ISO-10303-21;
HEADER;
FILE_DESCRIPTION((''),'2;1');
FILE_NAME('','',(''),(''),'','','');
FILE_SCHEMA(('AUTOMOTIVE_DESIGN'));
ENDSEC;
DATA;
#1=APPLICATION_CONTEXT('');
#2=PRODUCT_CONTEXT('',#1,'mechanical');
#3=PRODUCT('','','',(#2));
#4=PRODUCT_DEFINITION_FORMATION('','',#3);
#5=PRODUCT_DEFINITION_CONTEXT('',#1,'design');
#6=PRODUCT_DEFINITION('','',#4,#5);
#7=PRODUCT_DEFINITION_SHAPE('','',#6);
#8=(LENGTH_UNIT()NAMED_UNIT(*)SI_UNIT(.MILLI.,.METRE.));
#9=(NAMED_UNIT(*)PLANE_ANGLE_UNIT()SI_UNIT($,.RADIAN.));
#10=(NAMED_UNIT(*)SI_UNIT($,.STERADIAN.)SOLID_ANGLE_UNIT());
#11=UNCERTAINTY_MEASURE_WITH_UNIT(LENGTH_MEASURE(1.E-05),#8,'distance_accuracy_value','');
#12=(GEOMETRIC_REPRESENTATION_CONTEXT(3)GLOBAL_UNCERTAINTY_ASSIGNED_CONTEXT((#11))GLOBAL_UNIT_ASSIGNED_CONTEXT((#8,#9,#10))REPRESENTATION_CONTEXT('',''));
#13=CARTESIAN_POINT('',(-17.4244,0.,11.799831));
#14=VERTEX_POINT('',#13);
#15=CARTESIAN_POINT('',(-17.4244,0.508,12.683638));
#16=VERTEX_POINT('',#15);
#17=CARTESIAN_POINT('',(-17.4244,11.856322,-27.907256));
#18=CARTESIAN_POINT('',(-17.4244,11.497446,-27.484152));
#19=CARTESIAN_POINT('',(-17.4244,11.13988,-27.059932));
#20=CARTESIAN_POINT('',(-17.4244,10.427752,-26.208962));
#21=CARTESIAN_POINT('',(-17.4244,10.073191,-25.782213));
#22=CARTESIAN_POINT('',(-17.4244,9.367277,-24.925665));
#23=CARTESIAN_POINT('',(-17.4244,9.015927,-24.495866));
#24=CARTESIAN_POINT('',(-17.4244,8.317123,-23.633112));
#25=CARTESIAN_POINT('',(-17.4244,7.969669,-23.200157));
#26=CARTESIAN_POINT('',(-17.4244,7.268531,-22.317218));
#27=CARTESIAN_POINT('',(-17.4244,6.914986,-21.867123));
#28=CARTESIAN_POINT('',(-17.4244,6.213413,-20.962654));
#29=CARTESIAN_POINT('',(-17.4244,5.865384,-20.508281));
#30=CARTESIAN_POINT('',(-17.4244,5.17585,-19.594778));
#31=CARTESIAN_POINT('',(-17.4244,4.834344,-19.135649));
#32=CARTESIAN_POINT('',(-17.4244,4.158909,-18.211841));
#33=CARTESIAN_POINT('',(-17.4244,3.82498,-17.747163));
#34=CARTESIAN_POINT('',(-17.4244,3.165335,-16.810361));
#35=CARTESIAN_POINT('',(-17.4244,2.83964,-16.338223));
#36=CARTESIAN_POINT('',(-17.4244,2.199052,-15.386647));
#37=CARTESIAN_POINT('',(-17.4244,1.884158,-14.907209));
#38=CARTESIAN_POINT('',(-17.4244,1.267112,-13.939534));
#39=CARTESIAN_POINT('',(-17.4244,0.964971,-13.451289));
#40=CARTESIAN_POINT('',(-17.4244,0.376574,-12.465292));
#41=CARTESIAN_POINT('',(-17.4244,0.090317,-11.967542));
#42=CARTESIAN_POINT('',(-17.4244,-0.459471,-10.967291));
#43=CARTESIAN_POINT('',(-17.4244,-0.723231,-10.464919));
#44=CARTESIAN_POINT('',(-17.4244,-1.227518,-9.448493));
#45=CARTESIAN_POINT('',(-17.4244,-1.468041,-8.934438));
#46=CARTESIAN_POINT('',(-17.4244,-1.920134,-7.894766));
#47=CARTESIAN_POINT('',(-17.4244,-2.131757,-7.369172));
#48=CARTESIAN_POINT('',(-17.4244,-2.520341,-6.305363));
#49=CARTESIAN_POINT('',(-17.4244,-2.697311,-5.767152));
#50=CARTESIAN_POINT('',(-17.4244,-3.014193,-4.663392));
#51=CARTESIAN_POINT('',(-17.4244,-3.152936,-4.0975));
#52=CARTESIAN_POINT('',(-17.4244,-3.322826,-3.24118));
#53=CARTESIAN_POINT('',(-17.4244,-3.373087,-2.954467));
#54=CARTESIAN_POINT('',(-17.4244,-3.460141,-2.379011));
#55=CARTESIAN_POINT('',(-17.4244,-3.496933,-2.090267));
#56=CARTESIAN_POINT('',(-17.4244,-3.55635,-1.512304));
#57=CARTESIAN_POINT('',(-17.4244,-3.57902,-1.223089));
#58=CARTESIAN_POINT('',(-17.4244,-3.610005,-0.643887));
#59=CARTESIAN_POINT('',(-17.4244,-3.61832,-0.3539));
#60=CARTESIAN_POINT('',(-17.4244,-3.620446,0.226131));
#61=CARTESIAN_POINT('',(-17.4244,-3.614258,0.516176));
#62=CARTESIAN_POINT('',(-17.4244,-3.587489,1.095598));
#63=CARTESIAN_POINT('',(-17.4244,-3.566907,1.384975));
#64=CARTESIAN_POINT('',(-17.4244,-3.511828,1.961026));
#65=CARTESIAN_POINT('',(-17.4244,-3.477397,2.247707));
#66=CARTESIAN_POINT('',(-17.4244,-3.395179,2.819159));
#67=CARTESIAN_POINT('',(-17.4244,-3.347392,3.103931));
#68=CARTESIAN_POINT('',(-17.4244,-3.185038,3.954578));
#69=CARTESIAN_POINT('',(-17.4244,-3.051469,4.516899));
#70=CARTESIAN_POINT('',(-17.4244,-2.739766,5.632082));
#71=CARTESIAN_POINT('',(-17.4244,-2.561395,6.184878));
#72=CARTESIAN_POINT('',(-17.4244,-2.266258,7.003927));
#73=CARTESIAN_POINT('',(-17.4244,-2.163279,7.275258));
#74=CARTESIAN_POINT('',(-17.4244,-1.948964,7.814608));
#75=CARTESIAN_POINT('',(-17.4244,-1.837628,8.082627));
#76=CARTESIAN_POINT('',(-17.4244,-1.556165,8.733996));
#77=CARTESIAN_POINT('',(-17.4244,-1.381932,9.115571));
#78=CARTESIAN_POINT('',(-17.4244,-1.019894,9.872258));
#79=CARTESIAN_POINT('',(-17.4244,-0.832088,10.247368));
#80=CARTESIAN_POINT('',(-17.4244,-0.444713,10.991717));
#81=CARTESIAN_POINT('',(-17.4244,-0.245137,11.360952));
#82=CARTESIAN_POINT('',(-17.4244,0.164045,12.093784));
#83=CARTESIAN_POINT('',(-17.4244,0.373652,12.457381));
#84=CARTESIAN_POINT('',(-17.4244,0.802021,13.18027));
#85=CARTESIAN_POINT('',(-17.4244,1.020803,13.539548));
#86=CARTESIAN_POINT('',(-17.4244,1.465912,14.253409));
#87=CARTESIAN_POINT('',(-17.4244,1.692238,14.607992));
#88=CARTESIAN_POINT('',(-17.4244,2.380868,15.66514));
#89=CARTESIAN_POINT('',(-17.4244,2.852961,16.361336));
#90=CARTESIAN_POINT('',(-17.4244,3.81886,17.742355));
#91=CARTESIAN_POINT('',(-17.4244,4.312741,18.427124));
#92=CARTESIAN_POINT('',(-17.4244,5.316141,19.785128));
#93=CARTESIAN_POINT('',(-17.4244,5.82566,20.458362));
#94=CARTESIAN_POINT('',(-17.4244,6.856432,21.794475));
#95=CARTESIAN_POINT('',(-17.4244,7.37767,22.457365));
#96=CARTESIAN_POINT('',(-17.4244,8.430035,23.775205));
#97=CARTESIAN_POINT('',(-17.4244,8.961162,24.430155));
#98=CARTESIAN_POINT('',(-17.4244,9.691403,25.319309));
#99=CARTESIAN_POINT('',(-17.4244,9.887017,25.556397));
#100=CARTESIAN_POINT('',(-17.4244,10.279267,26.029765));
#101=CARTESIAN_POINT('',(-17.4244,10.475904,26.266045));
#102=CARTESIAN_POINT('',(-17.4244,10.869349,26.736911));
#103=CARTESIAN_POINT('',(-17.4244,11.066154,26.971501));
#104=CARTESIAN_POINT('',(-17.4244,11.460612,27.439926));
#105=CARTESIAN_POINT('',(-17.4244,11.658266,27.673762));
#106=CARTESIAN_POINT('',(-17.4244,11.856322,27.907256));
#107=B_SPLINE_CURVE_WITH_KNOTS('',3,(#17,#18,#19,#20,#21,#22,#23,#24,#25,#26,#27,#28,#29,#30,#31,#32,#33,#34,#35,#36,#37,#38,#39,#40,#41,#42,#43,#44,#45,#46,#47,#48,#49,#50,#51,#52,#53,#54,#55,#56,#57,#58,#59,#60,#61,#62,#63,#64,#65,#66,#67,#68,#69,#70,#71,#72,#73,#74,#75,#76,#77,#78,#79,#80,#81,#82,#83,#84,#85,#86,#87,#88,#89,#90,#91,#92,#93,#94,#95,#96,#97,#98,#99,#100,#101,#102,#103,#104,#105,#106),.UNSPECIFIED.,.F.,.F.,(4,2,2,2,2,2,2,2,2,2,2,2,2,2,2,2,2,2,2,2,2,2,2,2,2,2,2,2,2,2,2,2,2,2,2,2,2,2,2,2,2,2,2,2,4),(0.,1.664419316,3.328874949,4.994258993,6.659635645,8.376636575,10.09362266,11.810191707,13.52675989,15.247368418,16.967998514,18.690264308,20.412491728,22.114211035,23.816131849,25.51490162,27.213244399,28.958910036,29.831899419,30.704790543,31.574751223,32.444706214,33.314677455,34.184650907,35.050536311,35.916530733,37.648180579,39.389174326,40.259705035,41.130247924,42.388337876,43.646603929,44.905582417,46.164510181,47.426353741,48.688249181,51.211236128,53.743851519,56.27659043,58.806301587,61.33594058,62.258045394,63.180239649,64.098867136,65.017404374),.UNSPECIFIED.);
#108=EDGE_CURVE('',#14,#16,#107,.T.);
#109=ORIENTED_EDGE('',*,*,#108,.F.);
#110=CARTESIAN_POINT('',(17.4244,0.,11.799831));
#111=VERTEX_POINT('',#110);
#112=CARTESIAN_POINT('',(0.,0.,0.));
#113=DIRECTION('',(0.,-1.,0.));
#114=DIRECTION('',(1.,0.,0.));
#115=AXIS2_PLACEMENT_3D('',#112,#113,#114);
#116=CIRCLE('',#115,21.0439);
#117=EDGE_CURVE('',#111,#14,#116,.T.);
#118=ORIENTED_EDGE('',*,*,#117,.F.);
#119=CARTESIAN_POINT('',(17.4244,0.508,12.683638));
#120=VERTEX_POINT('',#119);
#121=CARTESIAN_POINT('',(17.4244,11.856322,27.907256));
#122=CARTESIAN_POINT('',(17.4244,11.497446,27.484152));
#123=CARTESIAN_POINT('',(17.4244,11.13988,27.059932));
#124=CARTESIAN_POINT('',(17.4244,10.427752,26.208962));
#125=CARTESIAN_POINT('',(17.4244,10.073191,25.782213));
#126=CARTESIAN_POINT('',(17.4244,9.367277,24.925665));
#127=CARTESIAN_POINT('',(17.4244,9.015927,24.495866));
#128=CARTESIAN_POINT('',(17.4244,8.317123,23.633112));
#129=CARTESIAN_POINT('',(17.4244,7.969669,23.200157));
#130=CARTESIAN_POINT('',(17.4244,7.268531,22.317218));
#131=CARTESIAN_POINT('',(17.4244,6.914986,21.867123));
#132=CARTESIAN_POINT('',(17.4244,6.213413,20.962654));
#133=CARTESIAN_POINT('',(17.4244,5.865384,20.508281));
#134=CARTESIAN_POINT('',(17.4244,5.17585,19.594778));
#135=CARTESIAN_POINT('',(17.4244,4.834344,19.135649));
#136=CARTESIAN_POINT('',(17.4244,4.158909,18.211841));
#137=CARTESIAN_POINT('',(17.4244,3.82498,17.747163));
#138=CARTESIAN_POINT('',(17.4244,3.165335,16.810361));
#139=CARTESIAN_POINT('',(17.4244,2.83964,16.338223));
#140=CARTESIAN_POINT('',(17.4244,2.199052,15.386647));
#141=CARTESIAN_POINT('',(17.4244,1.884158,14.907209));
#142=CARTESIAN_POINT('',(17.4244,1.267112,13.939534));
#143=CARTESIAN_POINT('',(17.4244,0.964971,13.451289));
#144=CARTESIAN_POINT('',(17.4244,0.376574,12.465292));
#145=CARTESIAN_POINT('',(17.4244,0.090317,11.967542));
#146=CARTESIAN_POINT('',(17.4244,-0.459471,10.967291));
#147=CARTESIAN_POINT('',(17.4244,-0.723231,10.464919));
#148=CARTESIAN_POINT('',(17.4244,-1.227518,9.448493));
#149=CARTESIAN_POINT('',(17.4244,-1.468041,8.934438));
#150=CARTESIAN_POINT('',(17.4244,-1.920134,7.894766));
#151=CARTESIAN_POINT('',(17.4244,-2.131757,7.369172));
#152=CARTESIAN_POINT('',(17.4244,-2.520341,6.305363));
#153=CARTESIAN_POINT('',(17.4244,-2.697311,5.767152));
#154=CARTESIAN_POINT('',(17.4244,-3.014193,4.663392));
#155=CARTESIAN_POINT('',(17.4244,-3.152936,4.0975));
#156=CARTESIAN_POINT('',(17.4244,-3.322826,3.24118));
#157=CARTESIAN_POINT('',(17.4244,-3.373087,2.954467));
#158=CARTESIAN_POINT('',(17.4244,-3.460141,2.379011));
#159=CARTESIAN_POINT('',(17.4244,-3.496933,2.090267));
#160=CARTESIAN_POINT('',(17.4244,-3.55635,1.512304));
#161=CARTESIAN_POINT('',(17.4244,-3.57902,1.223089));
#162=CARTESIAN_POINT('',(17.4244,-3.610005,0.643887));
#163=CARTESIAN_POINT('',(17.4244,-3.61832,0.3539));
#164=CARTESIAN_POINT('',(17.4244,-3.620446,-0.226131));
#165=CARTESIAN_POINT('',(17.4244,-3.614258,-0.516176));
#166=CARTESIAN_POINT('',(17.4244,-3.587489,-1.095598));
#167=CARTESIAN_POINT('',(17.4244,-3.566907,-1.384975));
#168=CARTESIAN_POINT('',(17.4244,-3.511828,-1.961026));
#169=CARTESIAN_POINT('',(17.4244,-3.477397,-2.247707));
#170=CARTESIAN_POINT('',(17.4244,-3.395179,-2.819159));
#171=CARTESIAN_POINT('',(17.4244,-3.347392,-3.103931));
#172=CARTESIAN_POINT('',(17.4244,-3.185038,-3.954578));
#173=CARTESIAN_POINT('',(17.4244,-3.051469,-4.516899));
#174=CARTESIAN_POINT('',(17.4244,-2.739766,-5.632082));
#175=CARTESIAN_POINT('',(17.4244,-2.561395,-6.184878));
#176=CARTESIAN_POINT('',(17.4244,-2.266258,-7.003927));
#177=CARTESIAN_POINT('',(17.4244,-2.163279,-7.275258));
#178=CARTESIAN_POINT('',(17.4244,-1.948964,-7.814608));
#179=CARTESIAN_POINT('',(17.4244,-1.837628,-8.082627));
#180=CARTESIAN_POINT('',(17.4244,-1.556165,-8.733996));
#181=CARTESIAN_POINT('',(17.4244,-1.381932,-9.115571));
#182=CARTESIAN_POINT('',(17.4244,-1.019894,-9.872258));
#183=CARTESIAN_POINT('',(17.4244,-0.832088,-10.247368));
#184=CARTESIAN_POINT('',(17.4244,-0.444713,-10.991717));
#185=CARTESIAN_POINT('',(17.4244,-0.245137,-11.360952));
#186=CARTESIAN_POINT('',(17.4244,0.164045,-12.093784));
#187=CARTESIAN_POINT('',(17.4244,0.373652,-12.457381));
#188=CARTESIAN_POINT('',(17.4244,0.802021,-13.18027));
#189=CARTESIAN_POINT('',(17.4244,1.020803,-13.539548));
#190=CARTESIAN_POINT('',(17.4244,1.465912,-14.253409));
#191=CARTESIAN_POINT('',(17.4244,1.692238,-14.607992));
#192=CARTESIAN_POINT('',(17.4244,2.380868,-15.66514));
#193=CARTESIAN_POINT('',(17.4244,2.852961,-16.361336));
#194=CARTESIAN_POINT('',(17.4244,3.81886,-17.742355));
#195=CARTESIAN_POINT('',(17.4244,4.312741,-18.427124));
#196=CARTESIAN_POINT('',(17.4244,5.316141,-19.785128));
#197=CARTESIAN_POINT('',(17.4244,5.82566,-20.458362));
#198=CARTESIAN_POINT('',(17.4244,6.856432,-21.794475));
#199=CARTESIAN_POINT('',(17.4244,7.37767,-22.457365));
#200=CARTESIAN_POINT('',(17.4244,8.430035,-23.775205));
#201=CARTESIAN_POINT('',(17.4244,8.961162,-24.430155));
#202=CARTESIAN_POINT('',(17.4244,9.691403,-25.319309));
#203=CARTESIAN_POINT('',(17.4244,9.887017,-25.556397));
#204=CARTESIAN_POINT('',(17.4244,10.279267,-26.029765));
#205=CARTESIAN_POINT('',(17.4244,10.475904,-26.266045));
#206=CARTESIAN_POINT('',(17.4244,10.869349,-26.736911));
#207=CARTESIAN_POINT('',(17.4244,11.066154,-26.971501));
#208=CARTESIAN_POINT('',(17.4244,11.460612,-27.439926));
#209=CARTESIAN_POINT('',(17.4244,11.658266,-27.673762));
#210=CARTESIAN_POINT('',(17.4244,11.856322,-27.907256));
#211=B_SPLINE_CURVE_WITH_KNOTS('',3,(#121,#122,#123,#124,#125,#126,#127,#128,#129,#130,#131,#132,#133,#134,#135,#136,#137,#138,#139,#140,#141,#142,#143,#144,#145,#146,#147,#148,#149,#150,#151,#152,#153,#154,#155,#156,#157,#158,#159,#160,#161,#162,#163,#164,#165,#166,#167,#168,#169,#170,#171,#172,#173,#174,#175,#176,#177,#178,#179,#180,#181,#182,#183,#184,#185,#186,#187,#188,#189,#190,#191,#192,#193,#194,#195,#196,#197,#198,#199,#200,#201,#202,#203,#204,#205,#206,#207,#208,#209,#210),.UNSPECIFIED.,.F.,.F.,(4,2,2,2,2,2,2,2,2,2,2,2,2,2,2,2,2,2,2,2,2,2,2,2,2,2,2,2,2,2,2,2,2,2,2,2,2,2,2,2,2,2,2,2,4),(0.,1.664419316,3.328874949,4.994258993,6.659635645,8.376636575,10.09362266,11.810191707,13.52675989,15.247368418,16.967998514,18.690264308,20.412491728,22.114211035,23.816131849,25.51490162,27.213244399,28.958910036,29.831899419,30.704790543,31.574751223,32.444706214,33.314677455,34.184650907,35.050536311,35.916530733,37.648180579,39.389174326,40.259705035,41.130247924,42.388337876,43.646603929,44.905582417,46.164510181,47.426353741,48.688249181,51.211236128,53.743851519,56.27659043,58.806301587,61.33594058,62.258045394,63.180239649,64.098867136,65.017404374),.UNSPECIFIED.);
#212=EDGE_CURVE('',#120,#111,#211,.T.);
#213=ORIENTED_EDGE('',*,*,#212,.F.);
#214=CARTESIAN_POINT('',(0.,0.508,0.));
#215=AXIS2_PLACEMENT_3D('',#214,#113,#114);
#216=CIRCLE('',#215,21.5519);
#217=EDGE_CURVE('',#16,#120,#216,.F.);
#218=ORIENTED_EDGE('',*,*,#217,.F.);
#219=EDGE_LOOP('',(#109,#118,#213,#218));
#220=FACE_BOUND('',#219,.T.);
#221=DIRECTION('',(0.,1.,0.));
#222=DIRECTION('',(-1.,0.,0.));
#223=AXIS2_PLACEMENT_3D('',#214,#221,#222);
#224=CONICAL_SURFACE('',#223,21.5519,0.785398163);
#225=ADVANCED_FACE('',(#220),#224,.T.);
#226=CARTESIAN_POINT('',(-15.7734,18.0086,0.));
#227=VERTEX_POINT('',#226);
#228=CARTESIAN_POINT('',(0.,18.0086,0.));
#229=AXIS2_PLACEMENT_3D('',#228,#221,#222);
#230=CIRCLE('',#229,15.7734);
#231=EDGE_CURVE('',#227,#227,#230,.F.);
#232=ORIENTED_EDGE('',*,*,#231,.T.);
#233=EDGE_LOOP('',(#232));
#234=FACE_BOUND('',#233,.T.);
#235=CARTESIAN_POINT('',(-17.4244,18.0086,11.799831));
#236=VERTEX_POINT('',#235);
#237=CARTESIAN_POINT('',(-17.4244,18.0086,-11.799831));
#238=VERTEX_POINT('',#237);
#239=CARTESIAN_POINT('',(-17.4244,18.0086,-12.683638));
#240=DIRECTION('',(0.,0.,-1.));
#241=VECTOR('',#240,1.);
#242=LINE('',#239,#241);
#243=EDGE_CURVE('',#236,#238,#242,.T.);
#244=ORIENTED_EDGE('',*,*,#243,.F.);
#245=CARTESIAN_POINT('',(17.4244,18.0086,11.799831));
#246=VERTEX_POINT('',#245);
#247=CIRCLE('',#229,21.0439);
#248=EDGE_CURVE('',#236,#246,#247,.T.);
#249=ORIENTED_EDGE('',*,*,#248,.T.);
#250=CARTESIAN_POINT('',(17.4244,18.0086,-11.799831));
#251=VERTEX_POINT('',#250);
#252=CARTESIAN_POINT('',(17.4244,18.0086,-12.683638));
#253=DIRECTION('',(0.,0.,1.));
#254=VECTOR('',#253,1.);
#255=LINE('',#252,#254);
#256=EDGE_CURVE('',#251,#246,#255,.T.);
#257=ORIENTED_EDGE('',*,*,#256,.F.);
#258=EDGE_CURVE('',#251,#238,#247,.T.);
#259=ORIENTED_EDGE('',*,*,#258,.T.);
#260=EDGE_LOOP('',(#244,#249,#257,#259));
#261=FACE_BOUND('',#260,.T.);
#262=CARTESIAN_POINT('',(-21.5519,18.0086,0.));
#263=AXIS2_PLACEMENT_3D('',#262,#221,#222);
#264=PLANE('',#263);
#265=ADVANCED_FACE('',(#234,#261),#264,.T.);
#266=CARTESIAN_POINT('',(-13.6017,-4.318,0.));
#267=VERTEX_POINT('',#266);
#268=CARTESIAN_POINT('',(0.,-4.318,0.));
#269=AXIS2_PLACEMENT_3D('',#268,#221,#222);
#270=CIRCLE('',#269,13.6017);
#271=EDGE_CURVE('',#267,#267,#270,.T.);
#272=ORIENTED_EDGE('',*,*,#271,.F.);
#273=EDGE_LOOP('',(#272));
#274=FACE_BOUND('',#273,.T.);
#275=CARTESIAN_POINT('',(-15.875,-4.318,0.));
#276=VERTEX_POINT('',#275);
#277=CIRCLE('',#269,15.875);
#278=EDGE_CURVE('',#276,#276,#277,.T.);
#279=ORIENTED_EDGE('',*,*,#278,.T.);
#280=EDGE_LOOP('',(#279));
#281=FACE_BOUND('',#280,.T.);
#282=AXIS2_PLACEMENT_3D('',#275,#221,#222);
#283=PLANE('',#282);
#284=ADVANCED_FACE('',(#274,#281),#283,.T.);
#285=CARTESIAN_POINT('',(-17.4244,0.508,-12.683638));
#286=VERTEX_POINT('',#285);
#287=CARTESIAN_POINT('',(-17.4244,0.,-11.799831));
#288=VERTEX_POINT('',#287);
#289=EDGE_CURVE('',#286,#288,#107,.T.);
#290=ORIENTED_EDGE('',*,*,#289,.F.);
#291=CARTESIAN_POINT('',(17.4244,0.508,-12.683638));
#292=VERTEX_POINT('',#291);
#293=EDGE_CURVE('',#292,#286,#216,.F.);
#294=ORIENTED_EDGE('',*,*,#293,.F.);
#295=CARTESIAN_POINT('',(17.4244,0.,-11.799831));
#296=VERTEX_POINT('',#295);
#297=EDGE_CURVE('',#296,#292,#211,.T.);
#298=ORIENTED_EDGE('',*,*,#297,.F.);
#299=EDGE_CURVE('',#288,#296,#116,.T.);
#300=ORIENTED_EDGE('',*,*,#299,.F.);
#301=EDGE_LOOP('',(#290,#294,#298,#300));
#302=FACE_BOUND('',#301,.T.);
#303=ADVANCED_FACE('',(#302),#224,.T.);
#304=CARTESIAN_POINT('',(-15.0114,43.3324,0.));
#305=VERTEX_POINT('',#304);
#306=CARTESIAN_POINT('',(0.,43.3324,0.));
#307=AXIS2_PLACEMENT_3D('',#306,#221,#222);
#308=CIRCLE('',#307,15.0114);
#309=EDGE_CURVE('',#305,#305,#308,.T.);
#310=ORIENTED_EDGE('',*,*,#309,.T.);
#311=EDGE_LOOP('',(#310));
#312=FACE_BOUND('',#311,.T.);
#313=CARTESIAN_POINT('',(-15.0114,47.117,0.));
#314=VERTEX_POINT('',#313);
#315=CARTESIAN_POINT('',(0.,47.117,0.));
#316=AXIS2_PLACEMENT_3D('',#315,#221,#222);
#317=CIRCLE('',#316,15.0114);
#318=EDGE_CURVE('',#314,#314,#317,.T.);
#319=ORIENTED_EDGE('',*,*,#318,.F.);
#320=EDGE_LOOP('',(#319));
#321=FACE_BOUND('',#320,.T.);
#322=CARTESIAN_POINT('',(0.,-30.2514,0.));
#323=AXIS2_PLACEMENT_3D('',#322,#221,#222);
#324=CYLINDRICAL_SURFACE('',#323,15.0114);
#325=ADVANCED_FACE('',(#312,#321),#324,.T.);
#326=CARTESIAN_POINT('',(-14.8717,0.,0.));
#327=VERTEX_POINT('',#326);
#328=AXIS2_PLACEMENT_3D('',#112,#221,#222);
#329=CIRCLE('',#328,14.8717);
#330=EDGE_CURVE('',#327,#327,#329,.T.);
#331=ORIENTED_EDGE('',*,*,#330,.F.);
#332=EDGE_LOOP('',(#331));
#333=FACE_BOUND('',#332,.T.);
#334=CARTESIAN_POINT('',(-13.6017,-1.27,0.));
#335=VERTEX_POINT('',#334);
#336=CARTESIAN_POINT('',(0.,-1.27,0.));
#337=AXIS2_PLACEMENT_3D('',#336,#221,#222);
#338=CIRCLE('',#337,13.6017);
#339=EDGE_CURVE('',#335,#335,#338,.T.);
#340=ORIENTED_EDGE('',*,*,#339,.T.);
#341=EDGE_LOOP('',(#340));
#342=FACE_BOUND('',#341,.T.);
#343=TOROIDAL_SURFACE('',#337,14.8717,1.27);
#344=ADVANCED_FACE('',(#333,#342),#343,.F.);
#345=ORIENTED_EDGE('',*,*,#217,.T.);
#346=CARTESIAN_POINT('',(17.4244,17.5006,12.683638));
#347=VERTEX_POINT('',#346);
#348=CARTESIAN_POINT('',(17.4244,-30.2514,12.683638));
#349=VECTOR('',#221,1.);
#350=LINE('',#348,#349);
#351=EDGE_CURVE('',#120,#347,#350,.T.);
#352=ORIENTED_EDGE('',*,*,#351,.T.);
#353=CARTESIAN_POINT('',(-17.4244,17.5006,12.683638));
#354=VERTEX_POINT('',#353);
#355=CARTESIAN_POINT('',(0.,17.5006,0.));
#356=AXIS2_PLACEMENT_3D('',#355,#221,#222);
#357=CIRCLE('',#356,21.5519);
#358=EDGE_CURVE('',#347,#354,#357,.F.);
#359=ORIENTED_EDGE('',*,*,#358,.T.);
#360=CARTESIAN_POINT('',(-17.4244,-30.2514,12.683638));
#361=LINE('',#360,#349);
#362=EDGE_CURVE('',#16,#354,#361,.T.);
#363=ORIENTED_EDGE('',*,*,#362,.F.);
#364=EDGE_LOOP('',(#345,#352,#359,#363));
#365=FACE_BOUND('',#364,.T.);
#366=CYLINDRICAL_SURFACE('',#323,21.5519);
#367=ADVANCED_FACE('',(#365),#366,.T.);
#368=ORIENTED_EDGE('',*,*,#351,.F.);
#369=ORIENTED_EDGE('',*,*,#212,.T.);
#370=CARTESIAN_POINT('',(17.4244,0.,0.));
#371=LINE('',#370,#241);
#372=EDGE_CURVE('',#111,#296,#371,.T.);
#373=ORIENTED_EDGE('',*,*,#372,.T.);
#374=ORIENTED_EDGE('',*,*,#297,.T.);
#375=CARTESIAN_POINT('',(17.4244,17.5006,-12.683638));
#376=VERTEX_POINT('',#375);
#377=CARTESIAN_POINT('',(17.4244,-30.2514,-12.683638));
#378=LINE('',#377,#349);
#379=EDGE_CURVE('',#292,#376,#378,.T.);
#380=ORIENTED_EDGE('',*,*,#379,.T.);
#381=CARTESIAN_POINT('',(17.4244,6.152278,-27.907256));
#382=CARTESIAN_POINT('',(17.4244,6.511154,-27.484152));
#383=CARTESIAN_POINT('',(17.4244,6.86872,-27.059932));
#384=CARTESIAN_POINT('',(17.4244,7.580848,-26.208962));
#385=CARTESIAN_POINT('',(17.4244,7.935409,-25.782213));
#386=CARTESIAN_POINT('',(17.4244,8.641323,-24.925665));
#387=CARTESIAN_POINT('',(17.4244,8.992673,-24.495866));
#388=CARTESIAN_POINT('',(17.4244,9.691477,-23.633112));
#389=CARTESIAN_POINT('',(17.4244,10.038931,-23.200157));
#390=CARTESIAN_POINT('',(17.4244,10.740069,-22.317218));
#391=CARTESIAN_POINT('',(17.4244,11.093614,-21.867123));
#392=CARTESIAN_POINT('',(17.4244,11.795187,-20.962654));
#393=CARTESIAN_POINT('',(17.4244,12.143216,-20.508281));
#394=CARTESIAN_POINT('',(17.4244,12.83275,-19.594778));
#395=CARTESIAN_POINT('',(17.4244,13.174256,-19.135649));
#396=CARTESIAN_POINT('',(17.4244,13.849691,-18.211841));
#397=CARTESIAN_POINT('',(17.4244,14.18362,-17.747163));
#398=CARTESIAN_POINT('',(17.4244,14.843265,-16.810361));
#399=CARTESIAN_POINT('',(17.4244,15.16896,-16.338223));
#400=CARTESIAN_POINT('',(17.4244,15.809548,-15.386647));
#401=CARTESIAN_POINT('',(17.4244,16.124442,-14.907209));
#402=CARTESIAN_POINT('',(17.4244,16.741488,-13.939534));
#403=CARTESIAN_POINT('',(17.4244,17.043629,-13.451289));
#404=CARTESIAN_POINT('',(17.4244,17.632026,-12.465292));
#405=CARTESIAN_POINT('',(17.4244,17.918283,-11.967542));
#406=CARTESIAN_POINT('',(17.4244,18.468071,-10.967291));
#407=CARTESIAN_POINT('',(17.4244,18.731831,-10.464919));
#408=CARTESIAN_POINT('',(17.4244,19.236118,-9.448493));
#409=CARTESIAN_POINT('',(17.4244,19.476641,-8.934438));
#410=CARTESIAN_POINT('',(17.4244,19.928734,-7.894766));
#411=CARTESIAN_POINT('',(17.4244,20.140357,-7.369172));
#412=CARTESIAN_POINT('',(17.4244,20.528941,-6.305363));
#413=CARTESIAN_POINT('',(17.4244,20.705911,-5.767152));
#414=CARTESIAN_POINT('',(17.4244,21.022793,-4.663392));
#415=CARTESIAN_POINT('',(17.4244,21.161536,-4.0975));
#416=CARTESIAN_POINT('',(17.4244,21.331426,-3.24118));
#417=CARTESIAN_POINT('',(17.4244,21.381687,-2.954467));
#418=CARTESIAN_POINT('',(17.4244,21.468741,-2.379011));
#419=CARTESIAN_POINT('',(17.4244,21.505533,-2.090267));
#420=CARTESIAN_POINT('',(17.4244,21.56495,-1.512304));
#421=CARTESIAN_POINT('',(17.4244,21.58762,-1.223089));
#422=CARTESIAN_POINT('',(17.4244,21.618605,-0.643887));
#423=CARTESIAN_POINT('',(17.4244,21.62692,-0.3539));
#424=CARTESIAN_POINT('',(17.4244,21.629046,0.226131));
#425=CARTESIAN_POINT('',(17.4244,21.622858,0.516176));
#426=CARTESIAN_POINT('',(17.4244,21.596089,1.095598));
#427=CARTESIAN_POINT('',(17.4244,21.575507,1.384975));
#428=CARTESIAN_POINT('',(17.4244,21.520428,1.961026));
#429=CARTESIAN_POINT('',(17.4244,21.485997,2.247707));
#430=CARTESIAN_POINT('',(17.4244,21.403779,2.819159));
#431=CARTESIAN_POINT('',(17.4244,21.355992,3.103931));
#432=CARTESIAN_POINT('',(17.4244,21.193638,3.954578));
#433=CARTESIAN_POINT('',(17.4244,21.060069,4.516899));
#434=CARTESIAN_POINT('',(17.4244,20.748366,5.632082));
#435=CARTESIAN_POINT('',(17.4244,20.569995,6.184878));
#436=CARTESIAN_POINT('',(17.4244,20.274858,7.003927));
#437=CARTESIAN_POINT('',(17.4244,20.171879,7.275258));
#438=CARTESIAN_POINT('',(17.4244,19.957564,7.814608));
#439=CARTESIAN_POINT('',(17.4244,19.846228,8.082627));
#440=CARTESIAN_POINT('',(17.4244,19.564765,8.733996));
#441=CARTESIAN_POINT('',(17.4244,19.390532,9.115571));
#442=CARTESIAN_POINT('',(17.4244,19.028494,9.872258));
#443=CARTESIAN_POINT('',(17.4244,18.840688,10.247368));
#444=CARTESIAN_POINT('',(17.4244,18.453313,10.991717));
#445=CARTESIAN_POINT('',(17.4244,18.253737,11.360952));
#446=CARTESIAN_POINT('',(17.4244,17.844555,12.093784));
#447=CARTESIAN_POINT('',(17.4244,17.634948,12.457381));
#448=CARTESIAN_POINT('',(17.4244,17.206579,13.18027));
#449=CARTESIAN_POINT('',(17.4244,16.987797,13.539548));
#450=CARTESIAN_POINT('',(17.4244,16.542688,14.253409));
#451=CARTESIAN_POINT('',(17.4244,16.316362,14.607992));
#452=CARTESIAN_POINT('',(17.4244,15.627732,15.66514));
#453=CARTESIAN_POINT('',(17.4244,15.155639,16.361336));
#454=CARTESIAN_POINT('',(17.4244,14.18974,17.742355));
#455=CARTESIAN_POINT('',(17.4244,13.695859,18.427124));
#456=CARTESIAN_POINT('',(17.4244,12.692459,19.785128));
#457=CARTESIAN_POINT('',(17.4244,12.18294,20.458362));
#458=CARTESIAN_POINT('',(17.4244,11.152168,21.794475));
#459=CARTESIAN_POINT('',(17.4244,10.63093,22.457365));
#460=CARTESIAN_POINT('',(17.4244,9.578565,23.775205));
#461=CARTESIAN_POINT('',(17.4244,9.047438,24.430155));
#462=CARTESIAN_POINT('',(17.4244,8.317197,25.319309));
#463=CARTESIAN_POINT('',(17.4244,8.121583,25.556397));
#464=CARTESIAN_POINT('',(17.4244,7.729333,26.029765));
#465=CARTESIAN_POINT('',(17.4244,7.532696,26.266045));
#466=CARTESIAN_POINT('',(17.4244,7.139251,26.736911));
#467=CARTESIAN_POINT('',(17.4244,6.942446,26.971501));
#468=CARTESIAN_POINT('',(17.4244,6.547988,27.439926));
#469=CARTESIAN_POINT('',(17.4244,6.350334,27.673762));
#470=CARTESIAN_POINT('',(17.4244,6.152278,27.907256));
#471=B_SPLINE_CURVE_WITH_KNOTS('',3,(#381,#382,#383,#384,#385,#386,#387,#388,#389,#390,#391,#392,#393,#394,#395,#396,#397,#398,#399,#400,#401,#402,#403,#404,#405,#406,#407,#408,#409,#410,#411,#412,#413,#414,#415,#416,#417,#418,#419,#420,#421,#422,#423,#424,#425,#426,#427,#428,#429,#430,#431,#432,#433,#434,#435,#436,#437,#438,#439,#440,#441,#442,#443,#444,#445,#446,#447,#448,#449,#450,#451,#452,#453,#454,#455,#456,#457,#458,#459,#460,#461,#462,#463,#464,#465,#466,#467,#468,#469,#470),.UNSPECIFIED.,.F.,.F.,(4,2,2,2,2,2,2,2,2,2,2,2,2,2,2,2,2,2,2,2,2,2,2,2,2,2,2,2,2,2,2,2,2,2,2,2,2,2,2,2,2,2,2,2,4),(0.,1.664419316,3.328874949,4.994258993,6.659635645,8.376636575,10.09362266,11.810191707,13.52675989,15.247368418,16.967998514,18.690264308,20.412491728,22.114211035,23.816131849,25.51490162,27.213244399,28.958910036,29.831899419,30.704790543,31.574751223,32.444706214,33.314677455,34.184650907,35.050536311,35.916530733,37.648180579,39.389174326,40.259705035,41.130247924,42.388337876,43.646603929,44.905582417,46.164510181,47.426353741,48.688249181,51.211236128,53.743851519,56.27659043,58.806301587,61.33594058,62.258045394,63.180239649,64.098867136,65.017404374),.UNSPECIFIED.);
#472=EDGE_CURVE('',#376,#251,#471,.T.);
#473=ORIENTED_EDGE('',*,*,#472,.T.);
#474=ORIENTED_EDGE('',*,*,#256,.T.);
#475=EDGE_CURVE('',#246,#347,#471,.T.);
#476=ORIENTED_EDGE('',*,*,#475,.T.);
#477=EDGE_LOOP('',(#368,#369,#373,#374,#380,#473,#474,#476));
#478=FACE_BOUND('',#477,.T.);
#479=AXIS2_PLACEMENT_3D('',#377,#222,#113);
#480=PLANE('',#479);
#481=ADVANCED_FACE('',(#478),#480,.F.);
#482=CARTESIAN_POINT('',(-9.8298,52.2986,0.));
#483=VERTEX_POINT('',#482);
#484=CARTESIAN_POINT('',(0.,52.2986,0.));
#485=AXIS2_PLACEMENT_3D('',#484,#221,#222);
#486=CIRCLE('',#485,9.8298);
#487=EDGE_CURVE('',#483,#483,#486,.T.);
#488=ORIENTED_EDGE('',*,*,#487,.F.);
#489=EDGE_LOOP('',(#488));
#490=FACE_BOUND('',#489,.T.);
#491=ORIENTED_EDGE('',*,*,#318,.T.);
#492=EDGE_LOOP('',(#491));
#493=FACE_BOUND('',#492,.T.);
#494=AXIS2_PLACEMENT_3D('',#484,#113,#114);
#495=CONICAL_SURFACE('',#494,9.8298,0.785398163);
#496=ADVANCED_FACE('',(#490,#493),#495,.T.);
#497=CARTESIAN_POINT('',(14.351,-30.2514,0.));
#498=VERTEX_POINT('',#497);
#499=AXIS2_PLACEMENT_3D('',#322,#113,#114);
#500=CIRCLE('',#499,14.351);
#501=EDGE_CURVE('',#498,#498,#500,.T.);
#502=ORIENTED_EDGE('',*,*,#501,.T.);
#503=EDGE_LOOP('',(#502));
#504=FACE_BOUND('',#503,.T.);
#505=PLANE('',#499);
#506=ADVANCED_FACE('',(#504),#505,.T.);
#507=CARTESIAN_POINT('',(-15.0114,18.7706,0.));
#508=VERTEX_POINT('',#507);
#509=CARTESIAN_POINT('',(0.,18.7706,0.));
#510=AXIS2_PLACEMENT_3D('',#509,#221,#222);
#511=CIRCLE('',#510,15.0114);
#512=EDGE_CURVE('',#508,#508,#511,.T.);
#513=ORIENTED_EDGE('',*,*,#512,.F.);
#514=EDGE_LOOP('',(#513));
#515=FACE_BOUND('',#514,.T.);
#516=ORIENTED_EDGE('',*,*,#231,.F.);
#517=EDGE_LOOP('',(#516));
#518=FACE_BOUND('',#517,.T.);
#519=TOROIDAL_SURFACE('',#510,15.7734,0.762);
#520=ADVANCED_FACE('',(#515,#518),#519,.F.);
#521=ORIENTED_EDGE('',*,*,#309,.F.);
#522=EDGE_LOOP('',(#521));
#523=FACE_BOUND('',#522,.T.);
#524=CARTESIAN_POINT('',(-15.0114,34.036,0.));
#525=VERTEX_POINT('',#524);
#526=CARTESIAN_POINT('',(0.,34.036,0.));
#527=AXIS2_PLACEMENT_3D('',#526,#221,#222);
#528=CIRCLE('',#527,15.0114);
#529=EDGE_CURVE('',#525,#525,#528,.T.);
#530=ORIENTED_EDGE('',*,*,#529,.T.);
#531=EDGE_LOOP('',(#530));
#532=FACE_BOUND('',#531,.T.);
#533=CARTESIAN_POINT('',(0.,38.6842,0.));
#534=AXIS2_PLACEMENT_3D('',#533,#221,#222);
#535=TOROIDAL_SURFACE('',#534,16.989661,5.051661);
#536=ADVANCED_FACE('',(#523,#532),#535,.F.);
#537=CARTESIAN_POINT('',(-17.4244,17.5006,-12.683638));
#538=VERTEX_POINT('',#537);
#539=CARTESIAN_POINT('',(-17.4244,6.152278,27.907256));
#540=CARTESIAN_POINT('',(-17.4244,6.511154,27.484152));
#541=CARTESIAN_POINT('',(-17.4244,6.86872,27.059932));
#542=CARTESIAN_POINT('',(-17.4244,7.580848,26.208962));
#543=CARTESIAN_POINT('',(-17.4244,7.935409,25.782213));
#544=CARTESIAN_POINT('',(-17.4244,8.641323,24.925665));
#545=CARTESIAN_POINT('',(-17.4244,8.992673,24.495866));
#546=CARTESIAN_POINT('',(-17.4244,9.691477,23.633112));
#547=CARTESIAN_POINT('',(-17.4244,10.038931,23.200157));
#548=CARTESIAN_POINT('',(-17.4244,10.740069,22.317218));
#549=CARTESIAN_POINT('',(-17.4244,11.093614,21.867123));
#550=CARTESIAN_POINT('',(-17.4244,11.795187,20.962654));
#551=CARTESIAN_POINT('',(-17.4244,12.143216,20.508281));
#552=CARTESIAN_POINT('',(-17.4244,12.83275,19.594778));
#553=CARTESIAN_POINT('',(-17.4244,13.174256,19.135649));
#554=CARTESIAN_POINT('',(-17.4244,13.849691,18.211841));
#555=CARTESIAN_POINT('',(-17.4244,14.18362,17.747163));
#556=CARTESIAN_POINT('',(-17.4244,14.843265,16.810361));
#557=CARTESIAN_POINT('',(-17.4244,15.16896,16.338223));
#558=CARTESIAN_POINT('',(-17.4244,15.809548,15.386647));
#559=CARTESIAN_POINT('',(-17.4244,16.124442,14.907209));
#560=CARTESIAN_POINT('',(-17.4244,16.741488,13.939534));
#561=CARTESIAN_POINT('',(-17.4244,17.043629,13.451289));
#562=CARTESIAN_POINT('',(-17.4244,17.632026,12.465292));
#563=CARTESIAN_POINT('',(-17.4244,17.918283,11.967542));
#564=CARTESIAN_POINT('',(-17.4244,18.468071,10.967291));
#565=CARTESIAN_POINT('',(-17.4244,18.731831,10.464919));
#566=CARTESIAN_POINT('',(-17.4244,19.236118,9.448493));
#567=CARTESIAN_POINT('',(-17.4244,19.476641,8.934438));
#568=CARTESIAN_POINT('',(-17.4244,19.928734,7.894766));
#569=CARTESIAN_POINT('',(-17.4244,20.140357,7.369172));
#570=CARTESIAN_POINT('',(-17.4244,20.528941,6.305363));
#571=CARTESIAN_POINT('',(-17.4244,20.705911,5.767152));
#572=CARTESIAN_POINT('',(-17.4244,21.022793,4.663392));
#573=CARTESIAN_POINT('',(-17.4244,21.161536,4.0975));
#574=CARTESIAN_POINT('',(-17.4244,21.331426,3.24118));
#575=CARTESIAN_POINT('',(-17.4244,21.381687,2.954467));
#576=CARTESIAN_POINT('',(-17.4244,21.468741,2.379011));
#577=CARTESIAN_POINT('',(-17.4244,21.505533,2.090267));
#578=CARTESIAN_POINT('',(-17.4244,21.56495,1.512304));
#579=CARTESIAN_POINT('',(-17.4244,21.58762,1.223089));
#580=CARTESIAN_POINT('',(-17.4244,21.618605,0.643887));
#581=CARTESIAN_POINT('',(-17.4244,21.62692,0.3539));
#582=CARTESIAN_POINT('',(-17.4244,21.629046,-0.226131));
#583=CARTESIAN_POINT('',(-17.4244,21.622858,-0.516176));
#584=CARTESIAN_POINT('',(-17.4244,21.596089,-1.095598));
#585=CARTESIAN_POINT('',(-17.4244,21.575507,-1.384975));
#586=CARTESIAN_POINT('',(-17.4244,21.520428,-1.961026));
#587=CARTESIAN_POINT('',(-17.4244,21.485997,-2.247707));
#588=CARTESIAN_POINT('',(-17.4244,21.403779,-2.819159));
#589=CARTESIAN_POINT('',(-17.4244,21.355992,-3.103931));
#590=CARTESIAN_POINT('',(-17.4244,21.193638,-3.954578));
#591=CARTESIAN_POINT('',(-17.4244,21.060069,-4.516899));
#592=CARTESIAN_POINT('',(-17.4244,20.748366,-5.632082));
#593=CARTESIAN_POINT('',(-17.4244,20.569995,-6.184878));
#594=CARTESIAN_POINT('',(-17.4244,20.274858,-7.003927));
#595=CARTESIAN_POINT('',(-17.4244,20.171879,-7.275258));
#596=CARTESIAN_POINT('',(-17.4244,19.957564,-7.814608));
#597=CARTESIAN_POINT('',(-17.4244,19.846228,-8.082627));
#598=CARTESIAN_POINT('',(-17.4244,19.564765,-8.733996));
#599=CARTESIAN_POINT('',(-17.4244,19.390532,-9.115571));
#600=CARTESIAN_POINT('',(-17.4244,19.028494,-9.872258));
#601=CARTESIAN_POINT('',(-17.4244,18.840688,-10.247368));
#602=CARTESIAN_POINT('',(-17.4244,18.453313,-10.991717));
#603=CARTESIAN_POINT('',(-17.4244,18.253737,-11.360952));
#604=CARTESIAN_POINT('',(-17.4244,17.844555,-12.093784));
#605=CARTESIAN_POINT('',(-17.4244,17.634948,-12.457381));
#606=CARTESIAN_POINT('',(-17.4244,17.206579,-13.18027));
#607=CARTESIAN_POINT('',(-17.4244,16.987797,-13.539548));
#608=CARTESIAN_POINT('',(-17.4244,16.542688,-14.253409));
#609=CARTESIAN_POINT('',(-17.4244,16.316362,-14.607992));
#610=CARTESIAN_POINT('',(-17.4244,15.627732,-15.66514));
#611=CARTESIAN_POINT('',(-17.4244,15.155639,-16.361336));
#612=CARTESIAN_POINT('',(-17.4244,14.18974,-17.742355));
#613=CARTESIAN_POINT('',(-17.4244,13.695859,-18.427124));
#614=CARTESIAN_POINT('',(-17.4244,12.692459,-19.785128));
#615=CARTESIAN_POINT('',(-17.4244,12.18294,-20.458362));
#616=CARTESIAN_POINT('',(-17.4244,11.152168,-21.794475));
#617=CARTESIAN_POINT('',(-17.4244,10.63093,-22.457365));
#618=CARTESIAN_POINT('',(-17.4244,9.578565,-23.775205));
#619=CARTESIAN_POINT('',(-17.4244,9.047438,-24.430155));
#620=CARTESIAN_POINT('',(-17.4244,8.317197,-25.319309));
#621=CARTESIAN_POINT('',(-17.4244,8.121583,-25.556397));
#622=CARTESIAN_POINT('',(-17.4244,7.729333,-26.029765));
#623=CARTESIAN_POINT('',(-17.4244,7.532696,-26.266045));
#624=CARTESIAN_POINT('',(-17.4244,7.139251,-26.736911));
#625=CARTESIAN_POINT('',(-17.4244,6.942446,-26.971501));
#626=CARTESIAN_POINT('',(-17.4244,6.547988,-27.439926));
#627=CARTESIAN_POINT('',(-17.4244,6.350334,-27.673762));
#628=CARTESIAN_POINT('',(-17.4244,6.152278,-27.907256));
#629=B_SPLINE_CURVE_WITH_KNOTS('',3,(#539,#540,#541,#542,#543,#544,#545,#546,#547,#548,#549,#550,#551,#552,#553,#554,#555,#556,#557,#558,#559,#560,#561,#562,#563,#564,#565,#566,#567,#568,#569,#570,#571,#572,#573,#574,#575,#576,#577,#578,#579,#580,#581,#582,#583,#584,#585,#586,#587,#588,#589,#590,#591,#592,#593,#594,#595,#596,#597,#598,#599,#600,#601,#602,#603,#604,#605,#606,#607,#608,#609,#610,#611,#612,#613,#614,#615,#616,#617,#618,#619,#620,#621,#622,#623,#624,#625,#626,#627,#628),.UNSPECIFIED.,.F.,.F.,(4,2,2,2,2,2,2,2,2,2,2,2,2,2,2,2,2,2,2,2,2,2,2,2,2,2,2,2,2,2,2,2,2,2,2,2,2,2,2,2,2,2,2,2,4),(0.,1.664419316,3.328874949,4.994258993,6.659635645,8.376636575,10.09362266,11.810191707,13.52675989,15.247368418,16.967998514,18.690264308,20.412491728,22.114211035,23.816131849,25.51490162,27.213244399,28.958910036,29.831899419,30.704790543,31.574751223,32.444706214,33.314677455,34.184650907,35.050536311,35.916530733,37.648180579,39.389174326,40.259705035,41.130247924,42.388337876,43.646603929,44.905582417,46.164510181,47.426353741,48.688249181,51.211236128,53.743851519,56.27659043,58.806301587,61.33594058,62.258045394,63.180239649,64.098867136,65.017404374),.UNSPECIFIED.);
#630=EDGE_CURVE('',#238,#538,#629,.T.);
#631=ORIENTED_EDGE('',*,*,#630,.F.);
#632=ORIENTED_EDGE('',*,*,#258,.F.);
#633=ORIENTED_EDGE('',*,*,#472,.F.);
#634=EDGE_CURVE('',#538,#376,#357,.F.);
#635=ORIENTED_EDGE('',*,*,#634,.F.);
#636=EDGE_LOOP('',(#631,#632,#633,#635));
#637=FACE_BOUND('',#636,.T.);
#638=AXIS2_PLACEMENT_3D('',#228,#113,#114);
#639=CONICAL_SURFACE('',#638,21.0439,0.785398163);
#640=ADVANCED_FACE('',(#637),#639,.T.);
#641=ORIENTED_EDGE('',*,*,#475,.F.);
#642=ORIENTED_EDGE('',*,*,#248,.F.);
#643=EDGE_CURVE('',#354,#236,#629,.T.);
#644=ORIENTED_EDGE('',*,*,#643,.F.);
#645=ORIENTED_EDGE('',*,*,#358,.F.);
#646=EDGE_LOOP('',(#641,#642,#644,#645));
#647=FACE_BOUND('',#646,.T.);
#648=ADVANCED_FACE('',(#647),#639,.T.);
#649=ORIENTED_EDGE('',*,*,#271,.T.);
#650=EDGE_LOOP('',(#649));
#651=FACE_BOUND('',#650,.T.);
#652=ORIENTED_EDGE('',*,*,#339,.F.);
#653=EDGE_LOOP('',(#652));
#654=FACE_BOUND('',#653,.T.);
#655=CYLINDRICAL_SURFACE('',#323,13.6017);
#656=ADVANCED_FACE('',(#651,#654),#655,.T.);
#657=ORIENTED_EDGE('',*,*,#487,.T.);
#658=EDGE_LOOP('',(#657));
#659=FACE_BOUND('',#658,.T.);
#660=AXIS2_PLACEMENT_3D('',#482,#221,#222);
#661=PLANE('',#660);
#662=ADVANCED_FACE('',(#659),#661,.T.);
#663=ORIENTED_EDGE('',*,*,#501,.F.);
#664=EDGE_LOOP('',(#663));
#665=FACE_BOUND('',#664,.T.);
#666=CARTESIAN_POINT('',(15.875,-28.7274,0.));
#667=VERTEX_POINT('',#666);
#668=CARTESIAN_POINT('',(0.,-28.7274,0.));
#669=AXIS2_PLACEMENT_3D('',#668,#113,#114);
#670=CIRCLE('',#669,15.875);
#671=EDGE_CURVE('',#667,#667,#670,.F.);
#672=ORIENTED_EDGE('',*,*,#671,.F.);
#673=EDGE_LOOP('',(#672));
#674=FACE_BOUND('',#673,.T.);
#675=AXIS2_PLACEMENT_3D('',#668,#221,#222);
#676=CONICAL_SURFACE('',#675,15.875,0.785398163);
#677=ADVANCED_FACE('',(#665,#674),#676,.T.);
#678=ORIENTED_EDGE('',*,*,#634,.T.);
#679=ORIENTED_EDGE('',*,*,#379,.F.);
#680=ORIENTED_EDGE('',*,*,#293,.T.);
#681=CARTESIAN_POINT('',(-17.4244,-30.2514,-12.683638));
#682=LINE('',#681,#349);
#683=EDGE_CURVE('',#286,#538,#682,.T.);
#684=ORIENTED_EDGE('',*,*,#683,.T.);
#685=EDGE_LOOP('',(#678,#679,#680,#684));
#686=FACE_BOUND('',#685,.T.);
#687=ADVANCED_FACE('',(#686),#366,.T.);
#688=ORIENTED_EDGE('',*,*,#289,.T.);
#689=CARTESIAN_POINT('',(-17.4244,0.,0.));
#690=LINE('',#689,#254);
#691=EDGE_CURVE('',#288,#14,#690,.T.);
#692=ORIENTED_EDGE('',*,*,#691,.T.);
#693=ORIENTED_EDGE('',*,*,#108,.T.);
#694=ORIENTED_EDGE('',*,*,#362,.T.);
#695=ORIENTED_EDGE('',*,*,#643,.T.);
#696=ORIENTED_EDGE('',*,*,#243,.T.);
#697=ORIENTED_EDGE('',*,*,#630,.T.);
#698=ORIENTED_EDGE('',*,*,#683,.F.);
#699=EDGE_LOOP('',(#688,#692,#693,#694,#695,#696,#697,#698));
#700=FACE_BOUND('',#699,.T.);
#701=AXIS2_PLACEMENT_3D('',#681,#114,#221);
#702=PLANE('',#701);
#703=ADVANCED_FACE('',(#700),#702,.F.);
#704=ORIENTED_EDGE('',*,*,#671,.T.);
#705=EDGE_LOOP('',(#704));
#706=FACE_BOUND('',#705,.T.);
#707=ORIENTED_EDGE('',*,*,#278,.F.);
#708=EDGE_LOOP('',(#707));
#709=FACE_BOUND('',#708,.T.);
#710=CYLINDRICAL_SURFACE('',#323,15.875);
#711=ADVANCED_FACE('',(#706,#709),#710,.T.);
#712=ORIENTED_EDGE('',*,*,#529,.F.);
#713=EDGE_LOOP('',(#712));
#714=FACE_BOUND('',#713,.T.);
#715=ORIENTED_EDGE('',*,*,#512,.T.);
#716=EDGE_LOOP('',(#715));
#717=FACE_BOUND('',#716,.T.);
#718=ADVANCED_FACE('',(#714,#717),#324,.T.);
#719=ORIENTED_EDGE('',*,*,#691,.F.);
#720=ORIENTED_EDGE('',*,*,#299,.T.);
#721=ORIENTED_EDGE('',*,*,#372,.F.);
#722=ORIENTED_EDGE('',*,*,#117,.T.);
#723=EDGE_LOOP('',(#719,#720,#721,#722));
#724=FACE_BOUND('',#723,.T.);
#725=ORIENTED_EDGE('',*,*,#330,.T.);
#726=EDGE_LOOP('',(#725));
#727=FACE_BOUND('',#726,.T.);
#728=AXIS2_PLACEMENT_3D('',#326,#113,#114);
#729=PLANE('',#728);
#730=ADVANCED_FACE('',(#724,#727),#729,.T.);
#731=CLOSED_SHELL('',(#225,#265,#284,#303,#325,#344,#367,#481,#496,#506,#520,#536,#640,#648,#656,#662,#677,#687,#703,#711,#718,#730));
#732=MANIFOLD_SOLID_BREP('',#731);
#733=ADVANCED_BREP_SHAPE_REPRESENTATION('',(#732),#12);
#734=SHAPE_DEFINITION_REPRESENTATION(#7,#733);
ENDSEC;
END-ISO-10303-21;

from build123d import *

# Parameters (mm, degrees)
CHAMFER1_SIZE      = 0.508
CHAMFER2_SIZE      = 1.524
CUT_EXTRUDE1_DEPTH = 49.26
FILLET1_R          = 0.762


with BuildPart() as part:
    # Sketch1 → Revolve1 (revolve)
    with BuildSketch(Plane.XY):
        with BuildLine():
            Line((0, 52.2986), (0, -30.2514))
            Line((0, -30.2514), (-15.875, -30.2514))
            Line((-15.875, -30.2514), (-15.875, -4.318))
            Line((-15.875, -4.318), (-13.6017, -4.318))
            Line((-13.6017, -4.318), (-13.6017, -1.27))
            ThreePointArc((-13.6017, -1.27), (-13.973674388, -0.371974388), (-14.8717, 0))
            Line((-14.8717, 0), (-21.5519, 0))
            Line((-21.5519, 0), (-21.5519, 18.0086))
            Line((-21.5519, 18.0086), (-15.0114, 18.0086))
            Line((-15.0114, 18.0086), (-15.0114, 34.036))
            ThreePointArc((-15.0114, 34.036), (-11.938, 38.6842), (-15.0114, 43.3324))
            Line((-15.0114, 43.3324), (-15.0114, 47.117))
            Line((-15.0114, 47.117), (-9.8298, 52.2986))
            Line((-9.8298, 52.2986), (0, 52.2986))
        make_face()
    revolve(axis=Axis((0, -30.2514, 0), (0, -1, 0)))

    # Chamfer1
    chamfer1_edges = [part.edges().sort_by_distance(p)[0] for p in [
        (21.5519, 18.0086, 0),
        (21.5519, 0, 0),
    ]]
    chamfer(chamfer1_edges, length=CHAMFER1_SIZE)

    # Chamfer2
    chamfer2_edges = [part.edges().sort_by_distance(p)[0] for p in [
        (15.875, -30.2514, 0),
    ]]
    chamfer(chamfer2_edges, length=CHAMFER2_SIZE)

    # Sketch2 → Cut-Extrude1 (cut, through all)
    with BuildSketch(Plane(origin=(0, 18.0086, 0), x_dir=(1, 0, 0), z_dir=(0, 1, 0))):
        with BuildLine():
            Line((-17.4244, 12.68363821), (-17.4244, -12.68363821))
            ThreePointArc((-17.4244, -12.68363821), (-21.5519, 0), (-17.4244, 12.68363821))
        make_face()
        with BuildLine():
            Line((17.4244, 12.68363821), (17.4244, -12.68363821))
            ThreePointArc((17.4244, -12.68363821), (21.5519, 0), (17.4244, 12.68363821))
        make_face()
    extrude(amount=-CUT_EXTRUDE1_DEPTH, mode=Mode.SUBTRACT)

    # Fillet1
    fillet1_edges = [part.edges().sort_by_distance(p)[0] for p in [
        (15.0114, 18.0086, 0),
    ]]
    fillet(fillet1_edges, radius=FILLET1_R)


solid = part.part
